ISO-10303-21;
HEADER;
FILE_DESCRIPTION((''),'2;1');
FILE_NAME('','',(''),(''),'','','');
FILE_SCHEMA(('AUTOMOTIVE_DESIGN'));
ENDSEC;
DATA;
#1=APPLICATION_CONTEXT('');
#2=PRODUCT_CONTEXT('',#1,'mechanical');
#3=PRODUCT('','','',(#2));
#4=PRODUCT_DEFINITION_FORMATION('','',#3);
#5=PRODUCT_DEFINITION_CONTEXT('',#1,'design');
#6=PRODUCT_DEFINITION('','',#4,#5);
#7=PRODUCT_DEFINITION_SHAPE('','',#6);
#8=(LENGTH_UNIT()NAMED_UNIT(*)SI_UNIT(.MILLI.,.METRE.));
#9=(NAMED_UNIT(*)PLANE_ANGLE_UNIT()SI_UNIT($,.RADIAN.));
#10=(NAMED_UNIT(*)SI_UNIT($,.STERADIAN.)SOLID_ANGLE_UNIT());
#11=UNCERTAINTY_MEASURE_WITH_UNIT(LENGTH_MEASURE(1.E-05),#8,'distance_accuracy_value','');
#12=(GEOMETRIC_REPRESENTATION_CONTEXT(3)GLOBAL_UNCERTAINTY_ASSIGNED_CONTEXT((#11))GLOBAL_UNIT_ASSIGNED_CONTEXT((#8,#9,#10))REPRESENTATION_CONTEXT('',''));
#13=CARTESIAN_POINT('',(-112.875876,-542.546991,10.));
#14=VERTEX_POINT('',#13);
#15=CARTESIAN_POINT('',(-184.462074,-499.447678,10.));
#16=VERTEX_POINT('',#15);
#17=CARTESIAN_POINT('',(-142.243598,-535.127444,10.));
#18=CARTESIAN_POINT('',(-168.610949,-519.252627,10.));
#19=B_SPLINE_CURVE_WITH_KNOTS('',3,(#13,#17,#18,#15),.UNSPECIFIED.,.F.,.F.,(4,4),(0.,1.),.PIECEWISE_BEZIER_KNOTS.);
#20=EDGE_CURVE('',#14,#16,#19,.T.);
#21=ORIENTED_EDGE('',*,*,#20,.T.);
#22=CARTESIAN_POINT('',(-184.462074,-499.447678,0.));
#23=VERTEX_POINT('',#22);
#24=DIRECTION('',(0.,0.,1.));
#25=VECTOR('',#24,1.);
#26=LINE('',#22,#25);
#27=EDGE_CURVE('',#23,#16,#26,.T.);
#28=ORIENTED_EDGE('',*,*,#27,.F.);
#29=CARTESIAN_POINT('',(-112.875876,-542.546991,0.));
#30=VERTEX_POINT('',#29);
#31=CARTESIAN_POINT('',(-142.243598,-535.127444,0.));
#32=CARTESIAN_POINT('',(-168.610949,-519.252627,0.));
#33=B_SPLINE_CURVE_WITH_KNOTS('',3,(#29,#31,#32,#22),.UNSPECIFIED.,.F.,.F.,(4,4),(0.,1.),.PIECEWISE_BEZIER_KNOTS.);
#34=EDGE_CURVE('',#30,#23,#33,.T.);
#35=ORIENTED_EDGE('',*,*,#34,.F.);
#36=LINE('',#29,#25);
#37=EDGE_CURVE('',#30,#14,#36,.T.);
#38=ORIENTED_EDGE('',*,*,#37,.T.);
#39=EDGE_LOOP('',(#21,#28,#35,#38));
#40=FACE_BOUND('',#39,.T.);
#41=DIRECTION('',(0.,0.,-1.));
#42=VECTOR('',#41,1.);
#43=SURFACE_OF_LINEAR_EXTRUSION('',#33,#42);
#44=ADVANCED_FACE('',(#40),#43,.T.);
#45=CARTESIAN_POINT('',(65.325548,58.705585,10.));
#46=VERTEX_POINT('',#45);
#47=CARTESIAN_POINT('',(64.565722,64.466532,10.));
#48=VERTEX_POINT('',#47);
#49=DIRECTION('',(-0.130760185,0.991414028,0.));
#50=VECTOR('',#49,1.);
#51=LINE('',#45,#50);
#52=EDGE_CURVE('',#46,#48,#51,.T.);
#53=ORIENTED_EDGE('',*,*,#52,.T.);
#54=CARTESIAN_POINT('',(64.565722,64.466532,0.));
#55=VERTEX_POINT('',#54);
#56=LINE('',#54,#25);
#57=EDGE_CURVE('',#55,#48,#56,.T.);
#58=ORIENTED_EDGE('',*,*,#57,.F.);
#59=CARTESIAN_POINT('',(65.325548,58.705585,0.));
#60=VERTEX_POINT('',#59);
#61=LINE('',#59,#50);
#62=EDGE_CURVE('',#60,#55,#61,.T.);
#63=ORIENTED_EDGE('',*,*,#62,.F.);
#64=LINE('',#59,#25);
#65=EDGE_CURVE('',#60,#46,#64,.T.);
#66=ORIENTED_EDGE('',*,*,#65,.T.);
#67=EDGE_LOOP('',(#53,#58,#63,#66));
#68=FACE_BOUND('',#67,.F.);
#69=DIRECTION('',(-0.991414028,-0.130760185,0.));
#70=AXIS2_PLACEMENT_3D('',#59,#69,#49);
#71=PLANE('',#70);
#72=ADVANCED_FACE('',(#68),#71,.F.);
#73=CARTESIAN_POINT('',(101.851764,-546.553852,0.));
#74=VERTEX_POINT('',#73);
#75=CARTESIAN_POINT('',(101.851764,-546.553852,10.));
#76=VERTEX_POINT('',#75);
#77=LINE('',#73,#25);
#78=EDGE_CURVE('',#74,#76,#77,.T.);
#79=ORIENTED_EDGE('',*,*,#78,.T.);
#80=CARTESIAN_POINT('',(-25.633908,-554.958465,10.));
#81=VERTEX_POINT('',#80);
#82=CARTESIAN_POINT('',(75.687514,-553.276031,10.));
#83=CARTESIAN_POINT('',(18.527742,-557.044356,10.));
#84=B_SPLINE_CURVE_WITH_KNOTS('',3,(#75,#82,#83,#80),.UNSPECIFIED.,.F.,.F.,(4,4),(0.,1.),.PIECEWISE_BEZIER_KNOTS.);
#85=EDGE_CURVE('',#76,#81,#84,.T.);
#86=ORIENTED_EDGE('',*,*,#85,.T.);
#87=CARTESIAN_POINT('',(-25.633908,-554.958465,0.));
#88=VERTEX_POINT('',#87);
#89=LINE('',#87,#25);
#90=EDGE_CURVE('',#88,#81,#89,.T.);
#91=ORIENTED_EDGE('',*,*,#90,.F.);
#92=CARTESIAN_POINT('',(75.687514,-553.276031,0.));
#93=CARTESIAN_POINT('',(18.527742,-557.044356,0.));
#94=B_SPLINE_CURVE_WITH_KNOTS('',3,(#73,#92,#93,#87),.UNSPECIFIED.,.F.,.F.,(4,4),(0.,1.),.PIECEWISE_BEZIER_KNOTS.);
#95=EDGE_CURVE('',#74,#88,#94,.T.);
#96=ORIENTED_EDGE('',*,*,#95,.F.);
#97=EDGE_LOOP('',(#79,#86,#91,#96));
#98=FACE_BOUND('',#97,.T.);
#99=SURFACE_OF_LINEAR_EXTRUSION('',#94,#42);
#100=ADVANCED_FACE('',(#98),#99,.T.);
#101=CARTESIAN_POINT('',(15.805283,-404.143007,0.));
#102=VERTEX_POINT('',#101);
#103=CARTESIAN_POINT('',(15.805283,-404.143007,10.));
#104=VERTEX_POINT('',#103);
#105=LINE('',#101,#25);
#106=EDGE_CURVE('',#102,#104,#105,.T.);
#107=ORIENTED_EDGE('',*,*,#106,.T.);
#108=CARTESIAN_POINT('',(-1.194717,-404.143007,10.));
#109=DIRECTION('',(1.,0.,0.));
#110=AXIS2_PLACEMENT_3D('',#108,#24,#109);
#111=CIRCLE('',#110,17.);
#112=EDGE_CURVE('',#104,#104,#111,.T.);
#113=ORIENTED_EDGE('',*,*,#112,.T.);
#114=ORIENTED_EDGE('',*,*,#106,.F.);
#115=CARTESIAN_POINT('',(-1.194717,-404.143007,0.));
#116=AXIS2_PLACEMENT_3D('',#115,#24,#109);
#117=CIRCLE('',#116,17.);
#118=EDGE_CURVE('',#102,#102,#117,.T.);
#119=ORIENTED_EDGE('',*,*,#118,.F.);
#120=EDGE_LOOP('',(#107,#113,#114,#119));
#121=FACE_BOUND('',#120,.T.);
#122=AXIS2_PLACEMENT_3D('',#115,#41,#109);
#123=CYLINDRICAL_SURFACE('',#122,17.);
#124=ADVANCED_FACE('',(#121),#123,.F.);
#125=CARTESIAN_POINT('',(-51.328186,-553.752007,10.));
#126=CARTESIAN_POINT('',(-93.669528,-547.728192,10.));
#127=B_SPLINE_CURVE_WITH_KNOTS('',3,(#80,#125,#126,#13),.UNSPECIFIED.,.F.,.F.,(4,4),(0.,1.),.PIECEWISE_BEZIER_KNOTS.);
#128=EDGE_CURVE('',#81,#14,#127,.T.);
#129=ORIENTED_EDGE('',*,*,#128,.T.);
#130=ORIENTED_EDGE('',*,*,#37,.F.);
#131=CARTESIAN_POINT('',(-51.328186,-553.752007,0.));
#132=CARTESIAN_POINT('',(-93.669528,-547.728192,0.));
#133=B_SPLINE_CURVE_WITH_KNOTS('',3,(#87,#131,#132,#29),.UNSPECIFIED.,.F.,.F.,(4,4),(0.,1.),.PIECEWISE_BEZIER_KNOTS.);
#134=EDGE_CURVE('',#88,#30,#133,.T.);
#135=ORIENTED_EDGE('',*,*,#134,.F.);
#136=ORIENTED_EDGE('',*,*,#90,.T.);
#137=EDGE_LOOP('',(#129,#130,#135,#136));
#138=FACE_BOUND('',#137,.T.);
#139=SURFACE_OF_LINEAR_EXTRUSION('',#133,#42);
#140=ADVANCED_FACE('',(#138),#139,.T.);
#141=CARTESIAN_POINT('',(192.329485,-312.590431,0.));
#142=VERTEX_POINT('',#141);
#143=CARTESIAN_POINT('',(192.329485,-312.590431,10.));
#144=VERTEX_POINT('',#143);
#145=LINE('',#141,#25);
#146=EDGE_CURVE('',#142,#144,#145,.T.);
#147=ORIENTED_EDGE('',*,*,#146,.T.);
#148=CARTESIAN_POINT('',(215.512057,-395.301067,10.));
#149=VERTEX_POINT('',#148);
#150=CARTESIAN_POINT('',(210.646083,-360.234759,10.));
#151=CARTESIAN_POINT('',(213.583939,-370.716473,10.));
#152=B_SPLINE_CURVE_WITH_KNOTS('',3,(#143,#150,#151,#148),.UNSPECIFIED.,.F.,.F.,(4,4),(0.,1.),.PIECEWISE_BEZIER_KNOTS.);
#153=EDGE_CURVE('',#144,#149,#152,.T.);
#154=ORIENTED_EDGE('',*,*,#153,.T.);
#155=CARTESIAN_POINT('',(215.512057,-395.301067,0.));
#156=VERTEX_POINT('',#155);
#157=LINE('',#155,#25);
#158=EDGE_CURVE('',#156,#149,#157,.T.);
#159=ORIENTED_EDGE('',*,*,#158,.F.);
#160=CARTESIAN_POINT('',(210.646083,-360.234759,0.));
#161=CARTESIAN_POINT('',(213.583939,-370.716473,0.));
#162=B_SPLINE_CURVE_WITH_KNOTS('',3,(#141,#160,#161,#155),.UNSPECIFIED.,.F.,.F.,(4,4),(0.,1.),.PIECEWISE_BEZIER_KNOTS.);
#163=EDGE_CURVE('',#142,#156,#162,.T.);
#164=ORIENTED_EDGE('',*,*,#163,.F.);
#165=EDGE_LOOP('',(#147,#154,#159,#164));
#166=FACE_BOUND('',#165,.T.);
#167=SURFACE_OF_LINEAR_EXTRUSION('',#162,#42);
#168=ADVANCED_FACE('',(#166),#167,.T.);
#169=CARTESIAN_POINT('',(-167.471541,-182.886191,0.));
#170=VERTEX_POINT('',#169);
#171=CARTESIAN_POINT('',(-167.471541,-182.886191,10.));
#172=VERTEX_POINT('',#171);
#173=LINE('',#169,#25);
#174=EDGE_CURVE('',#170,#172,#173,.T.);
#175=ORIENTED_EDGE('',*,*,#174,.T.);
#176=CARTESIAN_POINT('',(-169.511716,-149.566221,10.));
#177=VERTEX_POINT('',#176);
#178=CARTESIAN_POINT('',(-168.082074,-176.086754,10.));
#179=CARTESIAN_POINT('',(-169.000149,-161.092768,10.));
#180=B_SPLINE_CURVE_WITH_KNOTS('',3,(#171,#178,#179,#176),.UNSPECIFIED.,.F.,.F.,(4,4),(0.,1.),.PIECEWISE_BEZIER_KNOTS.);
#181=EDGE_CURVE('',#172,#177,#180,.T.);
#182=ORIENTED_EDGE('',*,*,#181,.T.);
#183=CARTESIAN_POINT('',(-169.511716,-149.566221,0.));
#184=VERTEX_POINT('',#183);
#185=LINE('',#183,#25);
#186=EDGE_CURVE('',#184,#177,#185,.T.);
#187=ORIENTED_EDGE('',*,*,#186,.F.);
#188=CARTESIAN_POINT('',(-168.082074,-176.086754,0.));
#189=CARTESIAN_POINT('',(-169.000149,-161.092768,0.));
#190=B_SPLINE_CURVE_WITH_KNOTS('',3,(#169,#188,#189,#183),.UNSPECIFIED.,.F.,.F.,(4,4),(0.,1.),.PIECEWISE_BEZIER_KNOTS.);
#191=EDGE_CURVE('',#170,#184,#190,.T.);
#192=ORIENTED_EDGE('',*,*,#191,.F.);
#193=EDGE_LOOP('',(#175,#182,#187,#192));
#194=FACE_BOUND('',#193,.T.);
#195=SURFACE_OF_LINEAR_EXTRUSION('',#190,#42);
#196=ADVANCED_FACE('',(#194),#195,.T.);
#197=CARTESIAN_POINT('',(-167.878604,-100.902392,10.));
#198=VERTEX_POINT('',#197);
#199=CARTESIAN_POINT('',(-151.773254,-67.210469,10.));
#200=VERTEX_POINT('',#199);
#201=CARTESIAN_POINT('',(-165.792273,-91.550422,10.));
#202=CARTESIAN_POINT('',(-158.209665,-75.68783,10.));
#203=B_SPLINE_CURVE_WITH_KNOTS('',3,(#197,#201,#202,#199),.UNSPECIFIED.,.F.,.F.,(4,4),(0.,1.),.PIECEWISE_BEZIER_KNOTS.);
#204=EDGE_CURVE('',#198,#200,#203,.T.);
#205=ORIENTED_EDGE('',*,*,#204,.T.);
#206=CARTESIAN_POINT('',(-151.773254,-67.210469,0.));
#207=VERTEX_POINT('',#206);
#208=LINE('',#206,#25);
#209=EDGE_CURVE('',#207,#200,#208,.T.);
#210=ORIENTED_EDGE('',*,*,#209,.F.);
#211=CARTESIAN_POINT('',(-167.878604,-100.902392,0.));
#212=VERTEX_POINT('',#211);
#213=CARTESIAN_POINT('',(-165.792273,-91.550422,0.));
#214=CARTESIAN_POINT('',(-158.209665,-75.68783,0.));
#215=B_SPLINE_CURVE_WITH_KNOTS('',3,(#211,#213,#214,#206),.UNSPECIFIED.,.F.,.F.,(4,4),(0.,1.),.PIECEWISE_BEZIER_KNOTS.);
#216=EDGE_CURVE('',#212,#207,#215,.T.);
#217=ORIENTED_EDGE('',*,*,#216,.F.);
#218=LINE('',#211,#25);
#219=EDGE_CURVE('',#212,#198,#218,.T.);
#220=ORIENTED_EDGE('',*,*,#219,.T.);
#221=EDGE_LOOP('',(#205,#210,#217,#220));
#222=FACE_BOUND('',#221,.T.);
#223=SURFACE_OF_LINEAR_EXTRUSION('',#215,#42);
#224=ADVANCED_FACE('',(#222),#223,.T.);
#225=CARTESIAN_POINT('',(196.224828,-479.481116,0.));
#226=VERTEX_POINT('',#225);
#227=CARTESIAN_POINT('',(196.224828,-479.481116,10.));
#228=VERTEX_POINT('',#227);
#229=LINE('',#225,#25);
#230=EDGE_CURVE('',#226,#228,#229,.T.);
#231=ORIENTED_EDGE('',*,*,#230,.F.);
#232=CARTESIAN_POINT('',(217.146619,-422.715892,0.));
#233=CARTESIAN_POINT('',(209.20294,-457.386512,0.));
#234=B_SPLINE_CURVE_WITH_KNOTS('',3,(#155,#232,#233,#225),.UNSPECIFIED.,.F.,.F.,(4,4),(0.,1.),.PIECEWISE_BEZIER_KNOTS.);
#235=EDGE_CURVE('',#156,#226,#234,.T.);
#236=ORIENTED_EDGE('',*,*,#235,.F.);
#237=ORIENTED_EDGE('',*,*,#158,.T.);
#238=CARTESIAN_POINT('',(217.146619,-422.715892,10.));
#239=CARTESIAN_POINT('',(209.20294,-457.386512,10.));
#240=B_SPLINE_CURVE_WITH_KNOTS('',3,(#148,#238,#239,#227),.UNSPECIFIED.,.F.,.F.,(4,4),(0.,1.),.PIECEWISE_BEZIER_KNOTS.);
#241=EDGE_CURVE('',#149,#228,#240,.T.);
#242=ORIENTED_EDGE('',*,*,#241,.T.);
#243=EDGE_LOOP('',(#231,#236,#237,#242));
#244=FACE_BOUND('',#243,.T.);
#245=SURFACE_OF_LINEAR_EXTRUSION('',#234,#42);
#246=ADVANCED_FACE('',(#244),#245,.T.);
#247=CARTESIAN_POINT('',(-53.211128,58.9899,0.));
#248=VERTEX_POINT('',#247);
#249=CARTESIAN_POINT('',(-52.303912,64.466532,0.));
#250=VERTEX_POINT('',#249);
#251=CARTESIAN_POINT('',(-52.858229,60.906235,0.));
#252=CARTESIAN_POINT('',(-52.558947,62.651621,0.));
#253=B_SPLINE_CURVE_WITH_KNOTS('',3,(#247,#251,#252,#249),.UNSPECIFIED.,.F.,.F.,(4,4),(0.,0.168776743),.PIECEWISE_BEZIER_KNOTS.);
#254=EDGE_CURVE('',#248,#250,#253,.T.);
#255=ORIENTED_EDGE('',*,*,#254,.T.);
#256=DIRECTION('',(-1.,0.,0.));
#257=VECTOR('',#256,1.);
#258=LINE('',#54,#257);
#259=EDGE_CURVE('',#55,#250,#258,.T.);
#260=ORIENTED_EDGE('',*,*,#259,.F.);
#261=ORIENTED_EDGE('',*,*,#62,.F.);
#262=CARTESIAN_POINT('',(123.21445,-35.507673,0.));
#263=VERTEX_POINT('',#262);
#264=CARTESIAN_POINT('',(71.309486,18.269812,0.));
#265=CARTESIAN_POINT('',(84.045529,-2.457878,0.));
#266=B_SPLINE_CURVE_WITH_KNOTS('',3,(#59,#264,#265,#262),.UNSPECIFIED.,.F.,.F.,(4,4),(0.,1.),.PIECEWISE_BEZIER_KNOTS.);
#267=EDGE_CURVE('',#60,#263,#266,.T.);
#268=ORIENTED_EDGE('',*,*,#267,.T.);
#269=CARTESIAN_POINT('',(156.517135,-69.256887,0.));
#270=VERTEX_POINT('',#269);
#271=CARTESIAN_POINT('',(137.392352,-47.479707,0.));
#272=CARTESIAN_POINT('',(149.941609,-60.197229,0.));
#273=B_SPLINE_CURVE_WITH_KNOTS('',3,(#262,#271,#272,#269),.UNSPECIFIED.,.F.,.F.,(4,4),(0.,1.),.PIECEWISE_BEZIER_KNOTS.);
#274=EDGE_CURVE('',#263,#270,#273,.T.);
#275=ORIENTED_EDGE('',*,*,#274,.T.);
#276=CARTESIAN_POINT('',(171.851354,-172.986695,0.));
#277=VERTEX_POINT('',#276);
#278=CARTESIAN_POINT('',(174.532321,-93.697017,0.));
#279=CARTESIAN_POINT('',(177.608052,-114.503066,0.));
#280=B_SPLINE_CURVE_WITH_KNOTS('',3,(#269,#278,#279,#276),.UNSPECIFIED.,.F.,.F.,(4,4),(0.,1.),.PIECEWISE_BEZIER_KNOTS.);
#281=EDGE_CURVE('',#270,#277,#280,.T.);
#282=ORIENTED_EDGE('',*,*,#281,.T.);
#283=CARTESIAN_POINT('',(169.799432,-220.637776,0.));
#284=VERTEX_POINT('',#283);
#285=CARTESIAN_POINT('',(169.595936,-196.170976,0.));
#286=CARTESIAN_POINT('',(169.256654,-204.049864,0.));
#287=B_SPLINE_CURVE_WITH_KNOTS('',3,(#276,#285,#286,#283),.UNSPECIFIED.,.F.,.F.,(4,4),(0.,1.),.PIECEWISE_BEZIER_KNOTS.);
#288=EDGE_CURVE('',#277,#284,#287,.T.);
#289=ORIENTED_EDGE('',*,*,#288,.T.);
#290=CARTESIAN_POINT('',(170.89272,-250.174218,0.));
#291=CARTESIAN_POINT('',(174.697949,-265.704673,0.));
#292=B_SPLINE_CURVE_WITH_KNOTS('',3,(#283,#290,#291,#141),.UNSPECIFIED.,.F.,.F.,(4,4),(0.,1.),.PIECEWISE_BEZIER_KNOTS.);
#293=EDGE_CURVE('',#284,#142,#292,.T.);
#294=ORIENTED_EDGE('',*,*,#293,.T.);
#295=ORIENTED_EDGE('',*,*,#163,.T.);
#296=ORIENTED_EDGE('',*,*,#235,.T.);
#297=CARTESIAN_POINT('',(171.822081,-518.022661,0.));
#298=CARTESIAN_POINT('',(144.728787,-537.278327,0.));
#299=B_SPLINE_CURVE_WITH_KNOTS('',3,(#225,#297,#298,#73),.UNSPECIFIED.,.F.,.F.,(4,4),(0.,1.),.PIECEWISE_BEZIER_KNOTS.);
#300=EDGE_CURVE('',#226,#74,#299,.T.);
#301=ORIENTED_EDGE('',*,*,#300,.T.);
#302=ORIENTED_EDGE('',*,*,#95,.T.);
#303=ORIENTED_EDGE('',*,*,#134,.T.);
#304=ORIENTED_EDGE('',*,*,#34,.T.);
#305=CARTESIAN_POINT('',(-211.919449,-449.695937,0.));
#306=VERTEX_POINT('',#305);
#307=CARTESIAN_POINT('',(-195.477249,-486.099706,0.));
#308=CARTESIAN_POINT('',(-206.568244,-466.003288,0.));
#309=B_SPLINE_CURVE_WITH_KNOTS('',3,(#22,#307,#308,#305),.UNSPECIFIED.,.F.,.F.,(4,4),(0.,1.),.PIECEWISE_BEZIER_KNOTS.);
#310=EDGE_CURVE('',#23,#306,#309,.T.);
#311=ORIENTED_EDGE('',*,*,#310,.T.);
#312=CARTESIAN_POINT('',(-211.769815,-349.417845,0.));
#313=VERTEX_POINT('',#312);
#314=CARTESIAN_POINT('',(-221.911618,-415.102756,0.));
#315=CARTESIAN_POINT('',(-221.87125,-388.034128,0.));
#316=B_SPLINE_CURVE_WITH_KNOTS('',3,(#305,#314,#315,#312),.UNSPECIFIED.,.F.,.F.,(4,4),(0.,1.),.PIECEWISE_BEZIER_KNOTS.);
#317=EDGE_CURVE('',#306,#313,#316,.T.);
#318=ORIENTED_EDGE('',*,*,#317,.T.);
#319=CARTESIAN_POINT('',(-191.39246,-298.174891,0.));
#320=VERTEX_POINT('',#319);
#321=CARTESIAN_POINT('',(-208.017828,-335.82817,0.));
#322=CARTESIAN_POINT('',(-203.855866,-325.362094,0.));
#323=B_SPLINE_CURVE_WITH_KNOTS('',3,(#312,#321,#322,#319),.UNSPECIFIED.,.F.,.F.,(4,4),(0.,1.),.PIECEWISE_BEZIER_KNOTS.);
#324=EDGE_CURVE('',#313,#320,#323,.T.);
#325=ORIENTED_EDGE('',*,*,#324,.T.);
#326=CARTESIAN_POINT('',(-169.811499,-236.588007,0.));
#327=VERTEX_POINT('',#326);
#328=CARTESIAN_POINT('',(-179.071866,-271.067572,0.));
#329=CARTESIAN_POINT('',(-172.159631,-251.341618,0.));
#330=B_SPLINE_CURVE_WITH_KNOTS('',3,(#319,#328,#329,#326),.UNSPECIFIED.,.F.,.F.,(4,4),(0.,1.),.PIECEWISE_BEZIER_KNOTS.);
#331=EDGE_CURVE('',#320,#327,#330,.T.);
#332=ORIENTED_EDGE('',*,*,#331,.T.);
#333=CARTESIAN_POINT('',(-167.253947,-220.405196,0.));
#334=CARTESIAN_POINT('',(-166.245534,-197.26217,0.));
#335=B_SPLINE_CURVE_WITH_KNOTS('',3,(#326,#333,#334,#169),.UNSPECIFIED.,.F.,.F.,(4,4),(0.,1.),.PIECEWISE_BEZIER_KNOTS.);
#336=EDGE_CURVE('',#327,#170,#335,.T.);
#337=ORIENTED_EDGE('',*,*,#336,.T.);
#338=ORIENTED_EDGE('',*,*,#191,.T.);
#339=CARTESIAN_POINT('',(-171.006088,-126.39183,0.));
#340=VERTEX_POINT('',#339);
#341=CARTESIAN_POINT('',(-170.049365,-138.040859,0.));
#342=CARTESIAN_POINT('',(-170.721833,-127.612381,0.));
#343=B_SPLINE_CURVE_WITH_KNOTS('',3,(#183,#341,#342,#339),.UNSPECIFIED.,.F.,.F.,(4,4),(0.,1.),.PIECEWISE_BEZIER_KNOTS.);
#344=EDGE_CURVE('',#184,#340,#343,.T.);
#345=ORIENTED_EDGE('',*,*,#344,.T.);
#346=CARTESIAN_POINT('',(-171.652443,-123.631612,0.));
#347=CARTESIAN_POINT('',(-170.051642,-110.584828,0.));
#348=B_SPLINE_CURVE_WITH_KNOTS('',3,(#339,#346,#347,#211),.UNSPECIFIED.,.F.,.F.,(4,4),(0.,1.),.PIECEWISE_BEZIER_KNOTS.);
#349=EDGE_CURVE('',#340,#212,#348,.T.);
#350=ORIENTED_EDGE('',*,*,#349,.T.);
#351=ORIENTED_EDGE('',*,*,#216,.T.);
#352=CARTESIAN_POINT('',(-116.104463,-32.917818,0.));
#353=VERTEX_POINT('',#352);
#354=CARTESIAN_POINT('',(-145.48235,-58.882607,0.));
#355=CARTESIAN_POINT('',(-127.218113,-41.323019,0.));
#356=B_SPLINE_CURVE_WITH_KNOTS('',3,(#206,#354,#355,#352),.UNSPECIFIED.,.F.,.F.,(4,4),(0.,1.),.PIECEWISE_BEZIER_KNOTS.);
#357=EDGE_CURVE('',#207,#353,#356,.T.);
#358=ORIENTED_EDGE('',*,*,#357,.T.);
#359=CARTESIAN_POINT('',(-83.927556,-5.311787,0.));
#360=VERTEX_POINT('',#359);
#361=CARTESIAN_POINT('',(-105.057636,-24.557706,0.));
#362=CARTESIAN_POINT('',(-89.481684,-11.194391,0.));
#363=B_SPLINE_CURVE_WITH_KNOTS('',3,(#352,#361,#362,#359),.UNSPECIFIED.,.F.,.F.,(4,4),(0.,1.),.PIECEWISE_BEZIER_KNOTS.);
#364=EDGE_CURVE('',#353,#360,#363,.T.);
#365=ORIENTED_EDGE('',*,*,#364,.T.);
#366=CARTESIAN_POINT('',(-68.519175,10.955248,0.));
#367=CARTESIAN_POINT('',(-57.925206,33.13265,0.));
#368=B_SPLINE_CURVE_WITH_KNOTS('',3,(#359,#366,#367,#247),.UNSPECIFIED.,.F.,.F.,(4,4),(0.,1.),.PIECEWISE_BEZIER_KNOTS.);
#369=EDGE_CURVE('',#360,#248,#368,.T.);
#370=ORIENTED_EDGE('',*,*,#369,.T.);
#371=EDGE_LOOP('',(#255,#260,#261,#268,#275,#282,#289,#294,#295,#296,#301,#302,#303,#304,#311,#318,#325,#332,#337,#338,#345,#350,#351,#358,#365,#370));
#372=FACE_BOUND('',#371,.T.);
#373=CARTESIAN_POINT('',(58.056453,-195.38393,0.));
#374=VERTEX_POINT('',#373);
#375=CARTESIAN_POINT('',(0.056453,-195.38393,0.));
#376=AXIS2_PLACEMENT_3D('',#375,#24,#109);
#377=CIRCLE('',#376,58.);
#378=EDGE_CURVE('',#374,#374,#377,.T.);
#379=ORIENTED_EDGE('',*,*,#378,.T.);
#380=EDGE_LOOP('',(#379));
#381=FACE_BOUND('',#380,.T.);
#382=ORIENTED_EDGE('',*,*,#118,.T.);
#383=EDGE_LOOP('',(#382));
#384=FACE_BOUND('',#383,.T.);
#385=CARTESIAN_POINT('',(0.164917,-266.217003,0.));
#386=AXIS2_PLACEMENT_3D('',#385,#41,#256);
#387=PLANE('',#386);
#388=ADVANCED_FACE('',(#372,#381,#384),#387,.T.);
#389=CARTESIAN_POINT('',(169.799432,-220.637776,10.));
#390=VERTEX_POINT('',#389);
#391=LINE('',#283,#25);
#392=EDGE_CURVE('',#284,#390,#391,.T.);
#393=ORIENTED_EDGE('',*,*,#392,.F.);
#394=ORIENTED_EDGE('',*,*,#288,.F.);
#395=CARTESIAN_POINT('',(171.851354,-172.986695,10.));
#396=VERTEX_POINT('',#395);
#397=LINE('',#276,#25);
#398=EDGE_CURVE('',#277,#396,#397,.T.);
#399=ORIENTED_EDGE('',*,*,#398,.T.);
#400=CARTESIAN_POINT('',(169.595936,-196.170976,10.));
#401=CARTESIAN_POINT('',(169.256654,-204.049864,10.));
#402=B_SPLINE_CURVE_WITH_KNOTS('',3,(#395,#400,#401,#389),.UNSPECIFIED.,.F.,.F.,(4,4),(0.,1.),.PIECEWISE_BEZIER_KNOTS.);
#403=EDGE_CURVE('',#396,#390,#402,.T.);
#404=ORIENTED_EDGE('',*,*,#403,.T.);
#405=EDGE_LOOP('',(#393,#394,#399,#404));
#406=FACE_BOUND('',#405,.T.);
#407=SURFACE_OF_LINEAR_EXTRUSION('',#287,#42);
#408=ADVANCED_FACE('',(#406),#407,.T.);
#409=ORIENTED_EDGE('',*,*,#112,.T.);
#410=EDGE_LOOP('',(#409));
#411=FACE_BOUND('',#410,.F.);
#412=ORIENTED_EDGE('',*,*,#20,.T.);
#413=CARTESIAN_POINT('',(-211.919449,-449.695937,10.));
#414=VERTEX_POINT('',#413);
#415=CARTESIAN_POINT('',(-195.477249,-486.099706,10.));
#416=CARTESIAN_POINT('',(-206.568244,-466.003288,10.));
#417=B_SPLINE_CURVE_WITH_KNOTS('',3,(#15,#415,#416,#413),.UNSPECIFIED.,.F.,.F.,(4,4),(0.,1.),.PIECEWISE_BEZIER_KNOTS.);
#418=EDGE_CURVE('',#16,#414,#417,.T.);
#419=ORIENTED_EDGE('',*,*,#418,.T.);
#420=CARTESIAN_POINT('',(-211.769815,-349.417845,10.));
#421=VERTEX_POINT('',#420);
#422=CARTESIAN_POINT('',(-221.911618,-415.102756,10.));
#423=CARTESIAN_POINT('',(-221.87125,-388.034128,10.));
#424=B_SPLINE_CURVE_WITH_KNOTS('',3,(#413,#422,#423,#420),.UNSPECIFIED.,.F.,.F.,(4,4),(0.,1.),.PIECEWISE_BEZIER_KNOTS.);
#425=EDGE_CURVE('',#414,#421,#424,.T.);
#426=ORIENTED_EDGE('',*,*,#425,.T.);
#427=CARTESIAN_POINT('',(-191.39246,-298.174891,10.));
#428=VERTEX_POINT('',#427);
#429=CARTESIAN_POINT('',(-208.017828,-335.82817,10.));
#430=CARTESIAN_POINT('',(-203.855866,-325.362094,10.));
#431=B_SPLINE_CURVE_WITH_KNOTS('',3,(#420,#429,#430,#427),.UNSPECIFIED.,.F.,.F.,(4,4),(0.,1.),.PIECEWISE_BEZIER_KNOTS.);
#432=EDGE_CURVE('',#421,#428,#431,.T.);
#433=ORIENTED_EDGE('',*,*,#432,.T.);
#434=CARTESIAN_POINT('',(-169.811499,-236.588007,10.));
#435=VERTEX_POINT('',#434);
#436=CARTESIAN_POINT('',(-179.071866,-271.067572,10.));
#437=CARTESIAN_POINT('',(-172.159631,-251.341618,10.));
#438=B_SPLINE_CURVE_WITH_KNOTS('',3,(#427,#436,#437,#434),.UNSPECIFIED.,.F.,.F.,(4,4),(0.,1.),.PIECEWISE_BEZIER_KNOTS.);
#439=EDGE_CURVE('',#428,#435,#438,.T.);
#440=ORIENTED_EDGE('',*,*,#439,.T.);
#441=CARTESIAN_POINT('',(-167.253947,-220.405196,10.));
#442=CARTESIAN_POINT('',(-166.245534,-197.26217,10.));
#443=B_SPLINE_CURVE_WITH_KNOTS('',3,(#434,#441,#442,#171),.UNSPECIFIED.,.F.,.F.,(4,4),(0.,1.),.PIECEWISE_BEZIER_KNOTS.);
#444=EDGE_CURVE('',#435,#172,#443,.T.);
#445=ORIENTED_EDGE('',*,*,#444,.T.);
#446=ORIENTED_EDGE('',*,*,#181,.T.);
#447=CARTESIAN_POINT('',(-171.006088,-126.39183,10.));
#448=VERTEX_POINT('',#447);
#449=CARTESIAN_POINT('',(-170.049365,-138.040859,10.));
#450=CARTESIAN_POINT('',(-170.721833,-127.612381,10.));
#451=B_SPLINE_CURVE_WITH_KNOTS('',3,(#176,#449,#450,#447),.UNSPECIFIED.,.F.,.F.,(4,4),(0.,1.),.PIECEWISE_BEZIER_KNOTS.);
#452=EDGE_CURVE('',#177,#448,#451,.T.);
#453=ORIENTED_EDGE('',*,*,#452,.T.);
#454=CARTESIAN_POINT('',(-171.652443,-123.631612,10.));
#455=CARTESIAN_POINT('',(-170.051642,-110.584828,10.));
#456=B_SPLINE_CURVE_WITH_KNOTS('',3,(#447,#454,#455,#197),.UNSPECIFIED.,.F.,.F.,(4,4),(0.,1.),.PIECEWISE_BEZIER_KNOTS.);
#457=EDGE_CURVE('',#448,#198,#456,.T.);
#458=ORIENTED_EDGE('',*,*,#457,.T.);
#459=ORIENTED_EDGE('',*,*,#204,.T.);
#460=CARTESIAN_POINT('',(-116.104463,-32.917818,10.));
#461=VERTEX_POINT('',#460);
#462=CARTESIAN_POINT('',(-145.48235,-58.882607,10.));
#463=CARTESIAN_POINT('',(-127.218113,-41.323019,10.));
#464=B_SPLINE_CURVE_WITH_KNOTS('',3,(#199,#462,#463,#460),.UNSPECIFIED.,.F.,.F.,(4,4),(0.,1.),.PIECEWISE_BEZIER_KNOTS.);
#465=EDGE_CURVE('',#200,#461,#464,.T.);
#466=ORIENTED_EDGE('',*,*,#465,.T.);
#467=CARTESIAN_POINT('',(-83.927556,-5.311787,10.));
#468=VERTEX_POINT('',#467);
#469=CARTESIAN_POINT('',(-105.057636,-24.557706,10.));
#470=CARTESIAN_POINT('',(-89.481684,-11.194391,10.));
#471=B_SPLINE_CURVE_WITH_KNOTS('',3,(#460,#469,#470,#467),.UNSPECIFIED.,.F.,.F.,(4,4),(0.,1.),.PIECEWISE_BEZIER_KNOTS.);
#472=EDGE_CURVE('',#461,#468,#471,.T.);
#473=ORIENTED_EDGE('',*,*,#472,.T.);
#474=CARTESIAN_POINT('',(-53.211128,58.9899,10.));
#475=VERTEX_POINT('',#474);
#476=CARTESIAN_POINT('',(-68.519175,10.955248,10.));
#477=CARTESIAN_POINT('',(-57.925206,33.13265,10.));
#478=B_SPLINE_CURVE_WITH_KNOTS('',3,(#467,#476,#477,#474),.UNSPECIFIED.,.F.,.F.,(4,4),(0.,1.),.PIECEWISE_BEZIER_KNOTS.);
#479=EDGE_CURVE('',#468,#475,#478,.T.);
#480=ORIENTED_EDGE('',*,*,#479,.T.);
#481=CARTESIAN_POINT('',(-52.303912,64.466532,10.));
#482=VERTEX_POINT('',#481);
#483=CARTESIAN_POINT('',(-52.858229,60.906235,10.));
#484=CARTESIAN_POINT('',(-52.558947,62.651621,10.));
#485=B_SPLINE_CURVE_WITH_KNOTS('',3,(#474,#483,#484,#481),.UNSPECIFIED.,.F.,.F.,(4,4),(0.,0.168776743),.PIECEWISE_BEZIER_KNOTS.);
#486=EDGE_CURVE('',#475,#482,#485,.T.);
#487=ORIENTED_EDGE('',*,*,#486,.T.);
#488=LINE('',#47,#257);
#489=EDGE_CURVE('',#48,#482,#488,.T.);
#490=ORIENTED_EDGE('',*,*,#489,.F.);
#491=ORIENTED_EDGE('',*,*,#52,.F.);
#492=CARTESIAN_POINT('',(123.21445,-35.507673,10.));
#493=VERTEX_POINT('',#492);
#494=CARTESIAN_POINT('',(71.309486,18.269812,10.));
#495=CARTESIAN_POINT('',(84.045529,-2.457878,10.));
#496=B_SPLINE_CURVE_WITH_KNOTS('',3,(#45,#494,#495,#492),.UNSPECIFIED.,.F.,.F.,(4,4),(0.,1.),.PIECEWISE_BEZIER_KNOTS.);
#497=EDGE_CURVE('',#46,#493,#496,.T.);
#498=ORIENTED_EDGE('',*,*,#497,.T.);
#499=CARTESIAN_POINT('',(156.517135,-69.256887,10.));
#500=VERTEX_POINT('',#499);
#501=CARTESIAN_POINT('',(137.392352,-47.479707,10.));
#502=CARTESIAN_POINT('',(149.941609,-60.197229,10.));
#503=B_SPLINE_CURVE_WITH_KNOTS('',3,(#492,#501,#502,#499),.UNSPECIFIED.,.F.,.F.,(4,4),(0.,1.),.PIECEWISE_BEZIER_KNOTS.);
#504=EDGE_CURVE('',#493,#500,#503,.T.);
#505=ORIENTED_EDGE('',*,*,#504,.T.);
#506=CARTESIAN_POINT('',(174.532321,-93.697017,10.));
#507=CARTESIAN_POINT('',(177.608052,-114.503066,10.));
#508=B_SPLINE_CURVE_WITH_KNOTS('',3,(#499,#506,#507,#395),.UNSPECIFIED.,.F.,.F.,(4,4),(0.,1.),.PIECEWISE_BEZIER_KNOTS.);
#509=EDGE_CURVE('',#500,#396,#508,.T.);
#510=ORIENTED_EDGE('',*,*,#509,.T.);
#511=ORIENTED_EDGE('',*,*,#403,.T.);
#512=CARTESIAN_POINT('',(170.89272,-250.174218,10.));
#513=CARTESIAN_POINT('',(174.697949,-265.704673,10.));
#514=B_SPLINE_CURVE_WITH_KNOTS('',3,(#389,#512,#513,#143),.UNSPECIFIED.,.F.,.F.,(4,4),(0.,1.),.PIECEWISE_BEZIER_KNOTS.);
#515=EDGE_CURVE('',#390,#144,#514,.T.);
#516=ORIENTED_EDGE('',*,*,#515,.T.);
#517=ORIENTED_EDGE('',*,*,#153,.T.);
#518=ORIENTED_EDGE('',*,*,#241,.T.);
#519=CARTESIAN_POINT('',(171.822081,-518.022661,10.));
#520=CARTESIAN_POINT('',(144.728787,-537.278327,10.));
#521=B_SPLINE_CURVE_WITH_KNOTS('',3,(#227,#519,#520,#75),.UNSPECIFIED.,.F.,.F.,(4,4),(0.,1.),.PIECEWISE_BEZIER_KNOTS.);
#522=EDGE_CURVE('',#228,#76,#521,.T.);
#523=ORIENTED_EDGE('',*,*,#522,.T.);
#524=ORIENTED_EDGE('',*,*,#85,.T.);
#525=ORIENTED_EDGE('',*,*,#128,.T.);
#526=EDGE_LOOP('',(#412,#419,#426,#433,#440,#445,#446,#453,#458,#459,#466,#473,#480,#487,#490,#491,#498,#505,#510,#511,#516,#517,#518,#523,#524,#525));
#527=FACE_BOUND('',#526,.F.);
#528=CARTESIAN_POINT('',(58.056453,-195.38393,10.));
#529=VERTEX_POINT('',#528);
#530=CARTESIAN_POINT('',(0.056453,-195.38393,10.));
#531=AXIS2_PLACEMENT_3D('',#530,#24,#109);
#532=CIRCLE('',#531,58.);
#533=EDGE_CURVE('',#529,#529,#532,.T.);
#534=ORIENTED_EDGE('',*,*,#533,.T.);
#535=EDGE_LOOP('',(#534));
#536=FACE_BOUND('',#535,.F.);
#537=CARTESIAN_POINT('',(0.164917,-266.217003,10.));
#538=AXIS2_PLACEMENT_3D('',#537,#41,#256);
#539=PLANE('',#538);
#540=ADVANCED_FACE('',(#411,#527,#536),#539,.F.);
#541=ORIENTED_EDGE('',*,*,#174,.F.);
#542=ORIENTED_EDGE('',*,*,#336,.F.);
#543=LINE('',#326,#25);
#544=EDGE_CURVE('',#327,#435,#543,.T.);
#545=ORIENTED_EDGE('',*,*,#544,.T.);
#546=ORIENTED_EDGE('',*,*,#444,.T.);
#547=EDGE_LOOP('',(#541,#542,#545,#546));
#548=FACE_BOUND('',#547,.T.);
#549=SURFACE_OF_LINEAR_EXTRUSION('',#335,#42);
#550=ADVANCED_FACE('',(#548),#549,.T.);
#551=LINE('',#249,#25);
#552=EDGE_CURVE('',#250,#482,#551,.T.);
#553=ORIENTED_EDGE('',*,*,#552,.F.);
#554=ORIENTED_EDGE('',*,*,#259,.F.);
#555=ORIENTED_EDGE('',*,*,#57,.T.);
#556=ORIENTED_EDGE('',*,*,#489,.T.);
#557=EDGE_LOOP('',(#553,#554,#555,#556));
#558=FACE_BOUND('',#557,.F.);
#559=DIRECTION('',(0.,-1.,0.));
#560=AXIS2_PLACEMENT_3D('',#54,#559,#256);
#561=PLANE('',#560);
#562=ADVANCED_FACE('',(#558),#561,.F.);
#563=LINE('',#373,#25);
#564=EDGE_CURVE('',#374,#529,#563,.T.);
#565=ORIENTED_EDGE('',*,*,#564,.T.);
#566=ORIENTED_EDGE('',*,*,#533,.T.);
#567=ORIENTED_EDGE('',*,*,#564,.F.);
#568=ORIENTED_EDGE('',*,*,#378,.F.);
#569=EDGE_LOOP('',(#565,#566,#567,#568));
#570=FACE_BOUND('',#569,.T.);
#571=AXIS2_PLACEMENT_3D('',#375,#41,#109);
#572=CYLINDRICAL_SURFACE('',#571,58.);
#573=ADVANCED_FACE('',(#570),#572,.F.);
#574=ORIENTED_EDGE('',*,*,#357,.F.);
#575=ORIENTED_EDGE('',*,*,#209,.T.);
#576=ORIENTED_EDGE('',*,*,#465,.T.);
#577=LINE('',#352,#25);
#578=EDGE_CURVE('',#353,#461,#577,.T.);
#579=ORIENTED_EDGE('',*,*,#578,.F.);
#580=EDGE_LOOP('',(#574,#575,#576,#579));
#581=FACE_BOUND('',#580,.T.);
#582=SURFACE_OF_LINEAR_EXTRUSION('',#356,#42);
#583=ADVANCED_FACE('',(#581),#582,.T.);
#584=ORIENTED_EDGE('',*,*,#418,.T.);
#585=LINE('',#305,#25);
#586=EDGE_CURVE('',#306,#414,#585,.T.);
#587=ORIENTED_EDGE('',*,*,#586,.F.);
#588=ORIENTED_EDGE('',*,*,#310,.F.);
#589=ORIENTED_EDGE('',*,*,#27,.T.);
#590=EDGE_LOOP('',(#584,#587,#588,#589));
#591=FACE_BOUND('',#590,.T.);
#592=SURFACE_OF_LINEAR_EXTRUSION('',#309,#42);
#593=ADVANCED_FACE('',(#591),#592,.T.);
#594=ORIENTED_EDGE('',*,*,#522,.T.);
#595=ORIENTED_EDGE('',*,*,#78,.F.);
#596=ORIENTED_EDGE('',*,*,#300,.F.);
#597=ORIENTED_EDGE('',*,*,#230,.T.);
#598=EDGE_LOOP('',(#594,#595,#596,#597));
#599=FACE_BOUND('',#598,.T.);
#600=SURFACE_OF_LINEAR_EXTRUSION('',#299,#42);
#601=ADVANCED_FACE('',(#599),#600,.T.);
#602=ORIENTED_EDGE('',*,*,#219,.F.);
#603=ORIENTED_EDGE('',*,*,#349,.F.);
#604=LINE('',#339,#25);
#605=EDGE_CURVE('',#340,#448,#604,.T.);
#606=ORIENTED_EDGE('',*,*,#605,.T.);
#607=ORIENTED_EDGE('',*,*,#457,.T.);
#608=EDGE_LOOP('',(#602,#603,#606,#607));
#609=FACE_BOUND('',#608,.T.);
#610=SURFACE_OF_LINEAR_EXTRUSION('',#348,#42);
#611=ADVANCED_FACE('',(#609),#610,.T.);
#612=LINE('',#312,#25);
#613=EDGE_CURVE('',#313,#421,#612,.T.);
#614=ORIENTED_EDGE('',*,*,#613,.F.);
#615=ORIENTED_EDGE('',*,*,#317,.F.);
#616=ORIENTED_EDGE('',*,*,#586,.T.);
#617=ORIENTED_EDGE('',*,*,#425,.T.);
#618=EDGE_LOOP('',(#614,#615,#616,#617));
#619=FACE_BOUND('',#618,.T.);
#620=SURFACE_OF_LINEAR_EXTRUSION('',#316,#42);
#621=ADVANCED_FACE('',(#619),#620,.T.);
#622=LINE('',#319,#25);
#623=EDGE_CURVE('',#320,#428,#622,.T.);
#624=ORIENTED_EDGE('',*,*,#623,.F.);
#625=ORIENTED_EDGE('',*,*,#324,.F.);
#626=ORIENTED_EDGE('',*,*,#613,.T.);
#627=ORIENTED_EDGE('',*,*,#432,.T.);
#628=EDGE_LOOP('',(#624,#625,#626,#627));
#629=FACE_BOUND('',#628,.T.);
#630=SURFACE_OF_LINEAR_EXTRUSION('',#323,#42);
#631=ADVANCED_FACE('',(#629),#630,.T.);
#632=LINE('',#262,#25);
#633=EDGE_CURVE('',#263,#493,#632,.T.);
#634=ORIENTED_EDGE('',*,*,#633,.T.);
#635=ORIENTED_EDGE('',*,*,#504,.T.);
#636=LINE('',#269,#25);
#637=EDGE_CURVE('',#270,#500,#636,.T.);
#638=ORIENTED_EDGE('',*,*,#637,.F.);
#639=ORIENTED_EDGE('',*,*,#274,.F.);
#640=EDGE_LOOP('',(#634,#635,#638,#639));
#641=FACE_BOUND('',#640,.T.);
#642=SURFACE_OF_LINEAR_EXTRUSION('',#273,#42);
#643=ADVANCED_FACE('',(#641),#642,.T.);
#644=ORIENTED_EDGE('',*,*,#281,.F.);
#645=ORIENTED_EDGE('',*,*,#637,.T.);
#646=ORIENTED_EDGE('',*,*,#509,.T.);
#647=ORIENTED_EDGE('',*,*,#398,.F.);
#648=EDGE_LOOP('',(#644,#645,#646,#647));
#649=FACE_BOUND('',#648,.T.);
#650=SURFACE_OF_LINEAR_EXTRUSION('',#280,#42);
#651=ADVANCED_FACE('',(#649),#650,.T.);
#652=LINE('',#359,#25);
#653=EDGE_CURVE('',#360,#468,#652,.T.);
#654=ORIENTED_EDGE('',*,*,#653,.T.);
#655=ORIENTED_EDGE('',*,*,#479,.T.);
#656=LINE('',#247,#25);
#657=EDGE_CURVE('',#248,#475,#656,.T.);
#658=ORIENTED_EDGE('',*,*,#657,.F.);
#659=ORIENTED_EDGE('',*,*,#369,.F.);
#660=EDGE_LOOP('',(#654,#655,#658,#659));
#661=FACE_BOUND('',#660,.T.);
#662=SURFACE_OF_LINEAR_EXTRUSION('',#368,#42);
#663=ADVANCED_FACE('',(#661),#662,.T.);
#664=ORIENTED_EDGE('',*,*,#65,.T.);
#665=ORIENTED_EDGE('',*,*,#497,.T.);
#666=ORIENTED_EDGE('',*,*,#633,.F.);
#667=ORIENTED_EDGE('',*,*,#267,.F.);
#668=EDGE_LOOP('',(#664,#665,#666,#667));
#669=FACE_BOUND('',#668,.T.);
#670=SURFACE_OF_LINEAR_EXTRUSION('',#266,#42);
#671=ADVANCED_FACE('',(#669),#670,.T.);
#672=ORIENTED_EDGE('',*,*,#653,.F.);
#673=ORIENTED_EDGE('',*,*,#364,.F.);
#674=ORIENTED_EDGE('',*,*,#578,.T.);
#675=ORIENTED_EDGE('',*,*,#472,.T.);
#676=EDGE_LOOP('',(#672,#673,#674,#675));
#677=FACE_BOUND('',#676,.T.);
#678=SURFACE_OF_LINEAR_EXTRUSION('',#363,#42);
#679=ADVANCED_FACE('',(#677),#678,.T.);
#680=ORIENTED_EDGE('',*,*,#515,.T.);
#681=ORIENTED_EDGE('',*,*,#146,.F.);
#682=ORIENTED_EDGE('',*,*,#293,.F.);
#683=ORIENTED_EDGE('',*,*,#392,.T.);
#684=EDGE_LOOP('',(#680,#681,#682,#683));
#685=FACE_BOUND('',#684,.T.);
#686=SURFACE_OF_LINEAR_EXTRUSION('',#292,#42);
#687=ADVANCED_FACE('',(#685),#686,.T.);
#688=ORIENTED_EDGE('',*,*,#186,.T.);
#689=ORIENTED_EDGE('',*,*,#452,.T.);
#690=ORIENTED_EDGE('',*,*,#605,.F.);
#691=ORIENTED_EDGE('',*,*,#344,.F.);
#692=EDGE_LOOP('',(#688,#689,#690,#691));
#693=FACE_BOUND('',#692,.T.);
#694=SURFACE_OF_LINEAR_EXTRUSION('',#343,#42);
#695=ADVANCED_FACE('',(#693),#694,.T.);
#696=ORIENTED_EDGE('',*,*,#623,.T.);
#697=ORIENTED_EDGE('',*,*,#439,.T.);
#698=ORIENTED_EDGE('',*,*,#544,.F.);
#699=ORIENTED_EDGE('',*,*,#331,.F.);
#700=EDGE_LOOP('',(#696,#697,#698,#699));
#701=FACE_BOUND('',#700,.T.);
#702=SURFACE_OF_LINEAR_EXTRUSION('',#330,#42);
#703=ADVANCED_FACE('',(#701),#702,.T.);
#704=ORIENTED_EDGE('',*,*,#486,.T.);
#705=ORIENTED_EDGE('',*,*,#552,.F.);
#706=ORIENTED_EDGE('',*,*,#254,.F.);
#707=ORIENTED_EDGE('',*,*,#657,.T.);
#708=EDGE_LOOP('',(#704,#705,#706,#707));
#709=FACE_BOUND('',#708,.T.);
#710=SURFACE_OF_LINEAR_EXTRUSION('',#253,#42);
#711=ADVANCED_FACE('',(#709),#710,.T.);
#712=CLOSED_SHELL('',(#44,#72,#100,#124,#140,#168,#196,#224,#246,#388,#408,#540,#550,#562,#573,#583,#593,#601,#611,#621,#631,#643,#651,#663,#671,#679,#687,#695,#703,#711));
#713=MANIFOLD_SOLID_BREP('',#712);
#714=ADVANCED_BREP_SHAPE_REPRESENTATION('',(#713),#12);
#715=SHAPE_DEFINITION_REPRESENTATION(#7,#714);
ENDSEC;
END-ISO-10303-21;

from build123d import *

# Parameters (mm, degrees)
F0_R     = 17
F0_R_2   = 58
F1_DEPTH = 10


with BuildPart() as f1:
    # F0 (on Top) → F1 (new body)
    with BuildSketch(Plane.XY):
        with BuildLine():
            add(Edge.make_bspline(
                [(-25.6339077997, -554.9584652973), (-51.3281857013, -553.7520074813), (-93.6695279871, -547.7281922836), (-112.8758760553, -542.5469908858)],
                knots=[0, 0, 0, 0, 1, 1, 1, 1], degree=3))
            add(Edge.make_bspline(
                [(101.8517638204, -546.5538520712), (75.6875139287, -553.2760310818), (18.5277424792, -557.0443555931), (-25.6339077997, -554.9584652973)],
                knots=[0, 0, 0, 0, 1, 1, 1, 1], degree=3))
            add(Edge.make_bspline(
                [(196.2248278388, -479.4811160712), (171.822081153, -518.0226613149), (144.728786774, -537.2783267828), (101.8517638204, -546.5538520712)],
                knots=[0, 0, 0, 0, 1, 1, 1, 1], degree=3))
            add(Edge.make_bspline(
                [(215.5120574316, -395.3010671859), (217.1466194612, -422.7158916841), (209.2029400354, -457.3865119018), (196.2248278388, -479.4811160712)],
                knots=[0, 0, 0, 0, 1, 1, 1, 1], degree=3))
            add(Edge.make_bspline(
                [(192.3294851646, -312.5904306206), (210.6460825929, -360.2347591492), (213.5839387817, -370.7164733528), (215.5120574316, -395.3010671859)],
                knots=[0, 0, 0, 0, 1, 1, 1, 1], degree=3))
            add(Edge.make_bspline(
                [(169.7994317014, -220.6377759274), (170.8927200615, -250.1742175661), (174.6979485759, -265.704673421), (192.3294851646, -312.5904306206)],
                knots=[0, 0, 0, 0, 1, 1, 1, 1], degree=3))
            add(Edge.make_bspline(
                [(171.8513537255, -172.9866951147), (169.5959356869, -196.170976202), (169.2566540986, -204.0498641717), (169.7994317014, -220.6377759274)],
                knots=[0, 0, 0, 0, 1, 1, 1, 1], degree=3))
            add(Edge.make_bspline(
                [(156.5171346692, -69.2568868796), (174.5323214434, -93.697017447), (177.6080524724, -114.5030664178), (171.8513537255, -172.9866951147)],
                knots=[0, 0, 0, 0, 1, 1, 1, 1], degree=3))
            add(Edge.make_bspline(
                [(123.2144497533, -35.5076734554), (137.3923515164, -47.479706869), (149.9416092694, -60.1972288193), (156.5171346692, -69.2568868796)],
                knots=[0, 0, 0, 0, 1, 1, 1, 1], degree=3))
            add(Edge.make_bspline(
                [(65.3255478686, 58.7055848673), (71.3094857176, 18.2698117865), (84.0455293395, -2.4578782981), (123.2144497533, -35.5076734554)],
                knots=[0, 0, 0, 0, 1, 1, 1, 1], degree=3))
            Line((65.3255478686, 58.7055848673), (64.565721553, 64.4665316539))
            Line((64.565721553, 64.4665316539), (-52.3039117597, 64.4665316539))
            add(Edge.make_bspline(
                [(-53.2111279718, 58.9898998943), (-52.85822859, 60.9062352781), (-52.5589473666, 62.6516212459), (-52.3039117597, 64.4665316539)],
                knots=[0, 0, 0, 0, 0.1687767432, 0.1687767432, 0.1687767432, 0.1687767432], degree=3))
            add(Edge.make_bspline(
                [(-83.9275562826, -5.3117870477), (-68.5191745861, 10.9552480289), (-57.925205972, 33.1326502537), (-53.2111279718, 58.9898998943)],
                knots=[0, 0, 0, 0, 1, 1, 1, 1], degree=3))
            add(Edge.make_bspline(
                [(-116.1044629089, -32.9178178076), (-105.0576364154, -24.5577063166), (-89.4816840216, -11.1943914798), (-83.9275562826, -5.3117870477)],
                knots=[0, 0, 0, 0, 1, 1, 1, 1], degree=3))
            add(Edge.make_bspline(
                [(-151.7732536447, -67.2104688142), (-145.4823496584, -58.8826067666), (-127.2181132715, -41.3230190468), (-116.1044629089, -32.9178178076)],
                knots=[0, 0, 0, 0, 1, 1, 1, 1], degree=3))
            add(Edge.make_bspline(
                [(-167.8786038958, -100.9023919243), (-165.7922728196, -91.5504220926), (-158.2096647421, -75.6878301404), (-151.7732536447, -67.2104688142)],
                knots=[0, 0, 0, 0, 1, 1, 1, 1], degree=3))
            add(Edge.make_bspline(
                [(-171.0060882933, -126.3918295099), (-171.6524429426, -123.6316115462), (-170.0516423645, -110.5848282174), (-167.8786038958, -100.9023919243)],
                knots=[0, 0, 0, 0, 1, 1, 1, 1], degree=3))
            add(Edge.make_bspline(
                [(-169.5117163, -149.5662211718), (-170.0493651796, -138.0408590498), (-170.7218331806, -127.612381277), (-171.0060882933, -126.3918295099)],
                knots=[0, 0, 0, 0, 1, 1, 1, 1], degree=3))
            add(Edge.make_bspline(
                [(-167.471540599, -182.8861909723), (-168.0820735931, -176.0867543832), (-169.0001494598, -161.0927678386), (-169.5117163, -149.5662211718)],
                knots=[0, 0, 0, 0, 1, 1, 1, 1], degree=3))
            add(Edge.make_bspline(
                [(-169.8114988663, -236.5880074419), (-167.2539474938, -220.4051955184), (-166.2455341108, -197.26217001), (-167.471540599, -182.8861909723)],
                knots=[0, 0, 0, 0, 1, 1, 1, 1], degree=3))
            add(Edge.make_bspline(
                [(-191.3924597661, -298.1748905383), (-179.0718659588, -271.0675724162), (-172.1596309655, -251.3416179851), (-169.8114988663, -236.5880074419)],
                knots=[0, 0, 0, 0, 1, 1, 1, 1], degree=3))
            add(Edge.make_bspline(
                [(-211.7698147273, -349.4178452311), (-208.0178282467, -335.8281697152), (-203.8558661958, -325.3620944905), (-191.3924597661, -298.1748905383)],
                knots=[0, 0, 0, 0, 1, 1, 1, 1], degree=3))
            add(Edge.make_bspline(
                [(-211.9194493318, -449.6959373576), (-221.9116183428, -415.102756195), (-221.8712504731, -388.0341277686), (-211.7698147273, -349.4178452311)],
                knots=[0, 0, 0, 0, 1, 1, 1, 1], degree=3))
            add(Edge.make_bspline(
                [(-184.4620737021, -499.4476777279), (-195.4772493714, -486.0997058769), (-206.5682443762, -466.0032882637), (-211.9194493318, -449.6959373576)],
                knots=[0, 0, 0, 0, 1, 1, 1, 1], degree=3))
            add(Edge.make_bspline(
                [(-112.8758760553, -542.5469908858), (-142.243597994, -535.1274441055), (-168.6109492663, -519.252627116), (-184.4620737021, -499.4476777279)],
                knots=[0, 0, 0, 0, 1, 1, 1, 1], degree=3))
        make_face()
        with Locations((-1.1947170427, -404.1430069365)):
            Circle(F0_R, mode=Mode.SUBTRACT)
        with Locations((0.0564528571, -195.3839299387)):
            Circle(F0_R_2, mode=Mode.SUBTRACT)
    extrude(amount=F1_DEPTH)


solid = f1.part
